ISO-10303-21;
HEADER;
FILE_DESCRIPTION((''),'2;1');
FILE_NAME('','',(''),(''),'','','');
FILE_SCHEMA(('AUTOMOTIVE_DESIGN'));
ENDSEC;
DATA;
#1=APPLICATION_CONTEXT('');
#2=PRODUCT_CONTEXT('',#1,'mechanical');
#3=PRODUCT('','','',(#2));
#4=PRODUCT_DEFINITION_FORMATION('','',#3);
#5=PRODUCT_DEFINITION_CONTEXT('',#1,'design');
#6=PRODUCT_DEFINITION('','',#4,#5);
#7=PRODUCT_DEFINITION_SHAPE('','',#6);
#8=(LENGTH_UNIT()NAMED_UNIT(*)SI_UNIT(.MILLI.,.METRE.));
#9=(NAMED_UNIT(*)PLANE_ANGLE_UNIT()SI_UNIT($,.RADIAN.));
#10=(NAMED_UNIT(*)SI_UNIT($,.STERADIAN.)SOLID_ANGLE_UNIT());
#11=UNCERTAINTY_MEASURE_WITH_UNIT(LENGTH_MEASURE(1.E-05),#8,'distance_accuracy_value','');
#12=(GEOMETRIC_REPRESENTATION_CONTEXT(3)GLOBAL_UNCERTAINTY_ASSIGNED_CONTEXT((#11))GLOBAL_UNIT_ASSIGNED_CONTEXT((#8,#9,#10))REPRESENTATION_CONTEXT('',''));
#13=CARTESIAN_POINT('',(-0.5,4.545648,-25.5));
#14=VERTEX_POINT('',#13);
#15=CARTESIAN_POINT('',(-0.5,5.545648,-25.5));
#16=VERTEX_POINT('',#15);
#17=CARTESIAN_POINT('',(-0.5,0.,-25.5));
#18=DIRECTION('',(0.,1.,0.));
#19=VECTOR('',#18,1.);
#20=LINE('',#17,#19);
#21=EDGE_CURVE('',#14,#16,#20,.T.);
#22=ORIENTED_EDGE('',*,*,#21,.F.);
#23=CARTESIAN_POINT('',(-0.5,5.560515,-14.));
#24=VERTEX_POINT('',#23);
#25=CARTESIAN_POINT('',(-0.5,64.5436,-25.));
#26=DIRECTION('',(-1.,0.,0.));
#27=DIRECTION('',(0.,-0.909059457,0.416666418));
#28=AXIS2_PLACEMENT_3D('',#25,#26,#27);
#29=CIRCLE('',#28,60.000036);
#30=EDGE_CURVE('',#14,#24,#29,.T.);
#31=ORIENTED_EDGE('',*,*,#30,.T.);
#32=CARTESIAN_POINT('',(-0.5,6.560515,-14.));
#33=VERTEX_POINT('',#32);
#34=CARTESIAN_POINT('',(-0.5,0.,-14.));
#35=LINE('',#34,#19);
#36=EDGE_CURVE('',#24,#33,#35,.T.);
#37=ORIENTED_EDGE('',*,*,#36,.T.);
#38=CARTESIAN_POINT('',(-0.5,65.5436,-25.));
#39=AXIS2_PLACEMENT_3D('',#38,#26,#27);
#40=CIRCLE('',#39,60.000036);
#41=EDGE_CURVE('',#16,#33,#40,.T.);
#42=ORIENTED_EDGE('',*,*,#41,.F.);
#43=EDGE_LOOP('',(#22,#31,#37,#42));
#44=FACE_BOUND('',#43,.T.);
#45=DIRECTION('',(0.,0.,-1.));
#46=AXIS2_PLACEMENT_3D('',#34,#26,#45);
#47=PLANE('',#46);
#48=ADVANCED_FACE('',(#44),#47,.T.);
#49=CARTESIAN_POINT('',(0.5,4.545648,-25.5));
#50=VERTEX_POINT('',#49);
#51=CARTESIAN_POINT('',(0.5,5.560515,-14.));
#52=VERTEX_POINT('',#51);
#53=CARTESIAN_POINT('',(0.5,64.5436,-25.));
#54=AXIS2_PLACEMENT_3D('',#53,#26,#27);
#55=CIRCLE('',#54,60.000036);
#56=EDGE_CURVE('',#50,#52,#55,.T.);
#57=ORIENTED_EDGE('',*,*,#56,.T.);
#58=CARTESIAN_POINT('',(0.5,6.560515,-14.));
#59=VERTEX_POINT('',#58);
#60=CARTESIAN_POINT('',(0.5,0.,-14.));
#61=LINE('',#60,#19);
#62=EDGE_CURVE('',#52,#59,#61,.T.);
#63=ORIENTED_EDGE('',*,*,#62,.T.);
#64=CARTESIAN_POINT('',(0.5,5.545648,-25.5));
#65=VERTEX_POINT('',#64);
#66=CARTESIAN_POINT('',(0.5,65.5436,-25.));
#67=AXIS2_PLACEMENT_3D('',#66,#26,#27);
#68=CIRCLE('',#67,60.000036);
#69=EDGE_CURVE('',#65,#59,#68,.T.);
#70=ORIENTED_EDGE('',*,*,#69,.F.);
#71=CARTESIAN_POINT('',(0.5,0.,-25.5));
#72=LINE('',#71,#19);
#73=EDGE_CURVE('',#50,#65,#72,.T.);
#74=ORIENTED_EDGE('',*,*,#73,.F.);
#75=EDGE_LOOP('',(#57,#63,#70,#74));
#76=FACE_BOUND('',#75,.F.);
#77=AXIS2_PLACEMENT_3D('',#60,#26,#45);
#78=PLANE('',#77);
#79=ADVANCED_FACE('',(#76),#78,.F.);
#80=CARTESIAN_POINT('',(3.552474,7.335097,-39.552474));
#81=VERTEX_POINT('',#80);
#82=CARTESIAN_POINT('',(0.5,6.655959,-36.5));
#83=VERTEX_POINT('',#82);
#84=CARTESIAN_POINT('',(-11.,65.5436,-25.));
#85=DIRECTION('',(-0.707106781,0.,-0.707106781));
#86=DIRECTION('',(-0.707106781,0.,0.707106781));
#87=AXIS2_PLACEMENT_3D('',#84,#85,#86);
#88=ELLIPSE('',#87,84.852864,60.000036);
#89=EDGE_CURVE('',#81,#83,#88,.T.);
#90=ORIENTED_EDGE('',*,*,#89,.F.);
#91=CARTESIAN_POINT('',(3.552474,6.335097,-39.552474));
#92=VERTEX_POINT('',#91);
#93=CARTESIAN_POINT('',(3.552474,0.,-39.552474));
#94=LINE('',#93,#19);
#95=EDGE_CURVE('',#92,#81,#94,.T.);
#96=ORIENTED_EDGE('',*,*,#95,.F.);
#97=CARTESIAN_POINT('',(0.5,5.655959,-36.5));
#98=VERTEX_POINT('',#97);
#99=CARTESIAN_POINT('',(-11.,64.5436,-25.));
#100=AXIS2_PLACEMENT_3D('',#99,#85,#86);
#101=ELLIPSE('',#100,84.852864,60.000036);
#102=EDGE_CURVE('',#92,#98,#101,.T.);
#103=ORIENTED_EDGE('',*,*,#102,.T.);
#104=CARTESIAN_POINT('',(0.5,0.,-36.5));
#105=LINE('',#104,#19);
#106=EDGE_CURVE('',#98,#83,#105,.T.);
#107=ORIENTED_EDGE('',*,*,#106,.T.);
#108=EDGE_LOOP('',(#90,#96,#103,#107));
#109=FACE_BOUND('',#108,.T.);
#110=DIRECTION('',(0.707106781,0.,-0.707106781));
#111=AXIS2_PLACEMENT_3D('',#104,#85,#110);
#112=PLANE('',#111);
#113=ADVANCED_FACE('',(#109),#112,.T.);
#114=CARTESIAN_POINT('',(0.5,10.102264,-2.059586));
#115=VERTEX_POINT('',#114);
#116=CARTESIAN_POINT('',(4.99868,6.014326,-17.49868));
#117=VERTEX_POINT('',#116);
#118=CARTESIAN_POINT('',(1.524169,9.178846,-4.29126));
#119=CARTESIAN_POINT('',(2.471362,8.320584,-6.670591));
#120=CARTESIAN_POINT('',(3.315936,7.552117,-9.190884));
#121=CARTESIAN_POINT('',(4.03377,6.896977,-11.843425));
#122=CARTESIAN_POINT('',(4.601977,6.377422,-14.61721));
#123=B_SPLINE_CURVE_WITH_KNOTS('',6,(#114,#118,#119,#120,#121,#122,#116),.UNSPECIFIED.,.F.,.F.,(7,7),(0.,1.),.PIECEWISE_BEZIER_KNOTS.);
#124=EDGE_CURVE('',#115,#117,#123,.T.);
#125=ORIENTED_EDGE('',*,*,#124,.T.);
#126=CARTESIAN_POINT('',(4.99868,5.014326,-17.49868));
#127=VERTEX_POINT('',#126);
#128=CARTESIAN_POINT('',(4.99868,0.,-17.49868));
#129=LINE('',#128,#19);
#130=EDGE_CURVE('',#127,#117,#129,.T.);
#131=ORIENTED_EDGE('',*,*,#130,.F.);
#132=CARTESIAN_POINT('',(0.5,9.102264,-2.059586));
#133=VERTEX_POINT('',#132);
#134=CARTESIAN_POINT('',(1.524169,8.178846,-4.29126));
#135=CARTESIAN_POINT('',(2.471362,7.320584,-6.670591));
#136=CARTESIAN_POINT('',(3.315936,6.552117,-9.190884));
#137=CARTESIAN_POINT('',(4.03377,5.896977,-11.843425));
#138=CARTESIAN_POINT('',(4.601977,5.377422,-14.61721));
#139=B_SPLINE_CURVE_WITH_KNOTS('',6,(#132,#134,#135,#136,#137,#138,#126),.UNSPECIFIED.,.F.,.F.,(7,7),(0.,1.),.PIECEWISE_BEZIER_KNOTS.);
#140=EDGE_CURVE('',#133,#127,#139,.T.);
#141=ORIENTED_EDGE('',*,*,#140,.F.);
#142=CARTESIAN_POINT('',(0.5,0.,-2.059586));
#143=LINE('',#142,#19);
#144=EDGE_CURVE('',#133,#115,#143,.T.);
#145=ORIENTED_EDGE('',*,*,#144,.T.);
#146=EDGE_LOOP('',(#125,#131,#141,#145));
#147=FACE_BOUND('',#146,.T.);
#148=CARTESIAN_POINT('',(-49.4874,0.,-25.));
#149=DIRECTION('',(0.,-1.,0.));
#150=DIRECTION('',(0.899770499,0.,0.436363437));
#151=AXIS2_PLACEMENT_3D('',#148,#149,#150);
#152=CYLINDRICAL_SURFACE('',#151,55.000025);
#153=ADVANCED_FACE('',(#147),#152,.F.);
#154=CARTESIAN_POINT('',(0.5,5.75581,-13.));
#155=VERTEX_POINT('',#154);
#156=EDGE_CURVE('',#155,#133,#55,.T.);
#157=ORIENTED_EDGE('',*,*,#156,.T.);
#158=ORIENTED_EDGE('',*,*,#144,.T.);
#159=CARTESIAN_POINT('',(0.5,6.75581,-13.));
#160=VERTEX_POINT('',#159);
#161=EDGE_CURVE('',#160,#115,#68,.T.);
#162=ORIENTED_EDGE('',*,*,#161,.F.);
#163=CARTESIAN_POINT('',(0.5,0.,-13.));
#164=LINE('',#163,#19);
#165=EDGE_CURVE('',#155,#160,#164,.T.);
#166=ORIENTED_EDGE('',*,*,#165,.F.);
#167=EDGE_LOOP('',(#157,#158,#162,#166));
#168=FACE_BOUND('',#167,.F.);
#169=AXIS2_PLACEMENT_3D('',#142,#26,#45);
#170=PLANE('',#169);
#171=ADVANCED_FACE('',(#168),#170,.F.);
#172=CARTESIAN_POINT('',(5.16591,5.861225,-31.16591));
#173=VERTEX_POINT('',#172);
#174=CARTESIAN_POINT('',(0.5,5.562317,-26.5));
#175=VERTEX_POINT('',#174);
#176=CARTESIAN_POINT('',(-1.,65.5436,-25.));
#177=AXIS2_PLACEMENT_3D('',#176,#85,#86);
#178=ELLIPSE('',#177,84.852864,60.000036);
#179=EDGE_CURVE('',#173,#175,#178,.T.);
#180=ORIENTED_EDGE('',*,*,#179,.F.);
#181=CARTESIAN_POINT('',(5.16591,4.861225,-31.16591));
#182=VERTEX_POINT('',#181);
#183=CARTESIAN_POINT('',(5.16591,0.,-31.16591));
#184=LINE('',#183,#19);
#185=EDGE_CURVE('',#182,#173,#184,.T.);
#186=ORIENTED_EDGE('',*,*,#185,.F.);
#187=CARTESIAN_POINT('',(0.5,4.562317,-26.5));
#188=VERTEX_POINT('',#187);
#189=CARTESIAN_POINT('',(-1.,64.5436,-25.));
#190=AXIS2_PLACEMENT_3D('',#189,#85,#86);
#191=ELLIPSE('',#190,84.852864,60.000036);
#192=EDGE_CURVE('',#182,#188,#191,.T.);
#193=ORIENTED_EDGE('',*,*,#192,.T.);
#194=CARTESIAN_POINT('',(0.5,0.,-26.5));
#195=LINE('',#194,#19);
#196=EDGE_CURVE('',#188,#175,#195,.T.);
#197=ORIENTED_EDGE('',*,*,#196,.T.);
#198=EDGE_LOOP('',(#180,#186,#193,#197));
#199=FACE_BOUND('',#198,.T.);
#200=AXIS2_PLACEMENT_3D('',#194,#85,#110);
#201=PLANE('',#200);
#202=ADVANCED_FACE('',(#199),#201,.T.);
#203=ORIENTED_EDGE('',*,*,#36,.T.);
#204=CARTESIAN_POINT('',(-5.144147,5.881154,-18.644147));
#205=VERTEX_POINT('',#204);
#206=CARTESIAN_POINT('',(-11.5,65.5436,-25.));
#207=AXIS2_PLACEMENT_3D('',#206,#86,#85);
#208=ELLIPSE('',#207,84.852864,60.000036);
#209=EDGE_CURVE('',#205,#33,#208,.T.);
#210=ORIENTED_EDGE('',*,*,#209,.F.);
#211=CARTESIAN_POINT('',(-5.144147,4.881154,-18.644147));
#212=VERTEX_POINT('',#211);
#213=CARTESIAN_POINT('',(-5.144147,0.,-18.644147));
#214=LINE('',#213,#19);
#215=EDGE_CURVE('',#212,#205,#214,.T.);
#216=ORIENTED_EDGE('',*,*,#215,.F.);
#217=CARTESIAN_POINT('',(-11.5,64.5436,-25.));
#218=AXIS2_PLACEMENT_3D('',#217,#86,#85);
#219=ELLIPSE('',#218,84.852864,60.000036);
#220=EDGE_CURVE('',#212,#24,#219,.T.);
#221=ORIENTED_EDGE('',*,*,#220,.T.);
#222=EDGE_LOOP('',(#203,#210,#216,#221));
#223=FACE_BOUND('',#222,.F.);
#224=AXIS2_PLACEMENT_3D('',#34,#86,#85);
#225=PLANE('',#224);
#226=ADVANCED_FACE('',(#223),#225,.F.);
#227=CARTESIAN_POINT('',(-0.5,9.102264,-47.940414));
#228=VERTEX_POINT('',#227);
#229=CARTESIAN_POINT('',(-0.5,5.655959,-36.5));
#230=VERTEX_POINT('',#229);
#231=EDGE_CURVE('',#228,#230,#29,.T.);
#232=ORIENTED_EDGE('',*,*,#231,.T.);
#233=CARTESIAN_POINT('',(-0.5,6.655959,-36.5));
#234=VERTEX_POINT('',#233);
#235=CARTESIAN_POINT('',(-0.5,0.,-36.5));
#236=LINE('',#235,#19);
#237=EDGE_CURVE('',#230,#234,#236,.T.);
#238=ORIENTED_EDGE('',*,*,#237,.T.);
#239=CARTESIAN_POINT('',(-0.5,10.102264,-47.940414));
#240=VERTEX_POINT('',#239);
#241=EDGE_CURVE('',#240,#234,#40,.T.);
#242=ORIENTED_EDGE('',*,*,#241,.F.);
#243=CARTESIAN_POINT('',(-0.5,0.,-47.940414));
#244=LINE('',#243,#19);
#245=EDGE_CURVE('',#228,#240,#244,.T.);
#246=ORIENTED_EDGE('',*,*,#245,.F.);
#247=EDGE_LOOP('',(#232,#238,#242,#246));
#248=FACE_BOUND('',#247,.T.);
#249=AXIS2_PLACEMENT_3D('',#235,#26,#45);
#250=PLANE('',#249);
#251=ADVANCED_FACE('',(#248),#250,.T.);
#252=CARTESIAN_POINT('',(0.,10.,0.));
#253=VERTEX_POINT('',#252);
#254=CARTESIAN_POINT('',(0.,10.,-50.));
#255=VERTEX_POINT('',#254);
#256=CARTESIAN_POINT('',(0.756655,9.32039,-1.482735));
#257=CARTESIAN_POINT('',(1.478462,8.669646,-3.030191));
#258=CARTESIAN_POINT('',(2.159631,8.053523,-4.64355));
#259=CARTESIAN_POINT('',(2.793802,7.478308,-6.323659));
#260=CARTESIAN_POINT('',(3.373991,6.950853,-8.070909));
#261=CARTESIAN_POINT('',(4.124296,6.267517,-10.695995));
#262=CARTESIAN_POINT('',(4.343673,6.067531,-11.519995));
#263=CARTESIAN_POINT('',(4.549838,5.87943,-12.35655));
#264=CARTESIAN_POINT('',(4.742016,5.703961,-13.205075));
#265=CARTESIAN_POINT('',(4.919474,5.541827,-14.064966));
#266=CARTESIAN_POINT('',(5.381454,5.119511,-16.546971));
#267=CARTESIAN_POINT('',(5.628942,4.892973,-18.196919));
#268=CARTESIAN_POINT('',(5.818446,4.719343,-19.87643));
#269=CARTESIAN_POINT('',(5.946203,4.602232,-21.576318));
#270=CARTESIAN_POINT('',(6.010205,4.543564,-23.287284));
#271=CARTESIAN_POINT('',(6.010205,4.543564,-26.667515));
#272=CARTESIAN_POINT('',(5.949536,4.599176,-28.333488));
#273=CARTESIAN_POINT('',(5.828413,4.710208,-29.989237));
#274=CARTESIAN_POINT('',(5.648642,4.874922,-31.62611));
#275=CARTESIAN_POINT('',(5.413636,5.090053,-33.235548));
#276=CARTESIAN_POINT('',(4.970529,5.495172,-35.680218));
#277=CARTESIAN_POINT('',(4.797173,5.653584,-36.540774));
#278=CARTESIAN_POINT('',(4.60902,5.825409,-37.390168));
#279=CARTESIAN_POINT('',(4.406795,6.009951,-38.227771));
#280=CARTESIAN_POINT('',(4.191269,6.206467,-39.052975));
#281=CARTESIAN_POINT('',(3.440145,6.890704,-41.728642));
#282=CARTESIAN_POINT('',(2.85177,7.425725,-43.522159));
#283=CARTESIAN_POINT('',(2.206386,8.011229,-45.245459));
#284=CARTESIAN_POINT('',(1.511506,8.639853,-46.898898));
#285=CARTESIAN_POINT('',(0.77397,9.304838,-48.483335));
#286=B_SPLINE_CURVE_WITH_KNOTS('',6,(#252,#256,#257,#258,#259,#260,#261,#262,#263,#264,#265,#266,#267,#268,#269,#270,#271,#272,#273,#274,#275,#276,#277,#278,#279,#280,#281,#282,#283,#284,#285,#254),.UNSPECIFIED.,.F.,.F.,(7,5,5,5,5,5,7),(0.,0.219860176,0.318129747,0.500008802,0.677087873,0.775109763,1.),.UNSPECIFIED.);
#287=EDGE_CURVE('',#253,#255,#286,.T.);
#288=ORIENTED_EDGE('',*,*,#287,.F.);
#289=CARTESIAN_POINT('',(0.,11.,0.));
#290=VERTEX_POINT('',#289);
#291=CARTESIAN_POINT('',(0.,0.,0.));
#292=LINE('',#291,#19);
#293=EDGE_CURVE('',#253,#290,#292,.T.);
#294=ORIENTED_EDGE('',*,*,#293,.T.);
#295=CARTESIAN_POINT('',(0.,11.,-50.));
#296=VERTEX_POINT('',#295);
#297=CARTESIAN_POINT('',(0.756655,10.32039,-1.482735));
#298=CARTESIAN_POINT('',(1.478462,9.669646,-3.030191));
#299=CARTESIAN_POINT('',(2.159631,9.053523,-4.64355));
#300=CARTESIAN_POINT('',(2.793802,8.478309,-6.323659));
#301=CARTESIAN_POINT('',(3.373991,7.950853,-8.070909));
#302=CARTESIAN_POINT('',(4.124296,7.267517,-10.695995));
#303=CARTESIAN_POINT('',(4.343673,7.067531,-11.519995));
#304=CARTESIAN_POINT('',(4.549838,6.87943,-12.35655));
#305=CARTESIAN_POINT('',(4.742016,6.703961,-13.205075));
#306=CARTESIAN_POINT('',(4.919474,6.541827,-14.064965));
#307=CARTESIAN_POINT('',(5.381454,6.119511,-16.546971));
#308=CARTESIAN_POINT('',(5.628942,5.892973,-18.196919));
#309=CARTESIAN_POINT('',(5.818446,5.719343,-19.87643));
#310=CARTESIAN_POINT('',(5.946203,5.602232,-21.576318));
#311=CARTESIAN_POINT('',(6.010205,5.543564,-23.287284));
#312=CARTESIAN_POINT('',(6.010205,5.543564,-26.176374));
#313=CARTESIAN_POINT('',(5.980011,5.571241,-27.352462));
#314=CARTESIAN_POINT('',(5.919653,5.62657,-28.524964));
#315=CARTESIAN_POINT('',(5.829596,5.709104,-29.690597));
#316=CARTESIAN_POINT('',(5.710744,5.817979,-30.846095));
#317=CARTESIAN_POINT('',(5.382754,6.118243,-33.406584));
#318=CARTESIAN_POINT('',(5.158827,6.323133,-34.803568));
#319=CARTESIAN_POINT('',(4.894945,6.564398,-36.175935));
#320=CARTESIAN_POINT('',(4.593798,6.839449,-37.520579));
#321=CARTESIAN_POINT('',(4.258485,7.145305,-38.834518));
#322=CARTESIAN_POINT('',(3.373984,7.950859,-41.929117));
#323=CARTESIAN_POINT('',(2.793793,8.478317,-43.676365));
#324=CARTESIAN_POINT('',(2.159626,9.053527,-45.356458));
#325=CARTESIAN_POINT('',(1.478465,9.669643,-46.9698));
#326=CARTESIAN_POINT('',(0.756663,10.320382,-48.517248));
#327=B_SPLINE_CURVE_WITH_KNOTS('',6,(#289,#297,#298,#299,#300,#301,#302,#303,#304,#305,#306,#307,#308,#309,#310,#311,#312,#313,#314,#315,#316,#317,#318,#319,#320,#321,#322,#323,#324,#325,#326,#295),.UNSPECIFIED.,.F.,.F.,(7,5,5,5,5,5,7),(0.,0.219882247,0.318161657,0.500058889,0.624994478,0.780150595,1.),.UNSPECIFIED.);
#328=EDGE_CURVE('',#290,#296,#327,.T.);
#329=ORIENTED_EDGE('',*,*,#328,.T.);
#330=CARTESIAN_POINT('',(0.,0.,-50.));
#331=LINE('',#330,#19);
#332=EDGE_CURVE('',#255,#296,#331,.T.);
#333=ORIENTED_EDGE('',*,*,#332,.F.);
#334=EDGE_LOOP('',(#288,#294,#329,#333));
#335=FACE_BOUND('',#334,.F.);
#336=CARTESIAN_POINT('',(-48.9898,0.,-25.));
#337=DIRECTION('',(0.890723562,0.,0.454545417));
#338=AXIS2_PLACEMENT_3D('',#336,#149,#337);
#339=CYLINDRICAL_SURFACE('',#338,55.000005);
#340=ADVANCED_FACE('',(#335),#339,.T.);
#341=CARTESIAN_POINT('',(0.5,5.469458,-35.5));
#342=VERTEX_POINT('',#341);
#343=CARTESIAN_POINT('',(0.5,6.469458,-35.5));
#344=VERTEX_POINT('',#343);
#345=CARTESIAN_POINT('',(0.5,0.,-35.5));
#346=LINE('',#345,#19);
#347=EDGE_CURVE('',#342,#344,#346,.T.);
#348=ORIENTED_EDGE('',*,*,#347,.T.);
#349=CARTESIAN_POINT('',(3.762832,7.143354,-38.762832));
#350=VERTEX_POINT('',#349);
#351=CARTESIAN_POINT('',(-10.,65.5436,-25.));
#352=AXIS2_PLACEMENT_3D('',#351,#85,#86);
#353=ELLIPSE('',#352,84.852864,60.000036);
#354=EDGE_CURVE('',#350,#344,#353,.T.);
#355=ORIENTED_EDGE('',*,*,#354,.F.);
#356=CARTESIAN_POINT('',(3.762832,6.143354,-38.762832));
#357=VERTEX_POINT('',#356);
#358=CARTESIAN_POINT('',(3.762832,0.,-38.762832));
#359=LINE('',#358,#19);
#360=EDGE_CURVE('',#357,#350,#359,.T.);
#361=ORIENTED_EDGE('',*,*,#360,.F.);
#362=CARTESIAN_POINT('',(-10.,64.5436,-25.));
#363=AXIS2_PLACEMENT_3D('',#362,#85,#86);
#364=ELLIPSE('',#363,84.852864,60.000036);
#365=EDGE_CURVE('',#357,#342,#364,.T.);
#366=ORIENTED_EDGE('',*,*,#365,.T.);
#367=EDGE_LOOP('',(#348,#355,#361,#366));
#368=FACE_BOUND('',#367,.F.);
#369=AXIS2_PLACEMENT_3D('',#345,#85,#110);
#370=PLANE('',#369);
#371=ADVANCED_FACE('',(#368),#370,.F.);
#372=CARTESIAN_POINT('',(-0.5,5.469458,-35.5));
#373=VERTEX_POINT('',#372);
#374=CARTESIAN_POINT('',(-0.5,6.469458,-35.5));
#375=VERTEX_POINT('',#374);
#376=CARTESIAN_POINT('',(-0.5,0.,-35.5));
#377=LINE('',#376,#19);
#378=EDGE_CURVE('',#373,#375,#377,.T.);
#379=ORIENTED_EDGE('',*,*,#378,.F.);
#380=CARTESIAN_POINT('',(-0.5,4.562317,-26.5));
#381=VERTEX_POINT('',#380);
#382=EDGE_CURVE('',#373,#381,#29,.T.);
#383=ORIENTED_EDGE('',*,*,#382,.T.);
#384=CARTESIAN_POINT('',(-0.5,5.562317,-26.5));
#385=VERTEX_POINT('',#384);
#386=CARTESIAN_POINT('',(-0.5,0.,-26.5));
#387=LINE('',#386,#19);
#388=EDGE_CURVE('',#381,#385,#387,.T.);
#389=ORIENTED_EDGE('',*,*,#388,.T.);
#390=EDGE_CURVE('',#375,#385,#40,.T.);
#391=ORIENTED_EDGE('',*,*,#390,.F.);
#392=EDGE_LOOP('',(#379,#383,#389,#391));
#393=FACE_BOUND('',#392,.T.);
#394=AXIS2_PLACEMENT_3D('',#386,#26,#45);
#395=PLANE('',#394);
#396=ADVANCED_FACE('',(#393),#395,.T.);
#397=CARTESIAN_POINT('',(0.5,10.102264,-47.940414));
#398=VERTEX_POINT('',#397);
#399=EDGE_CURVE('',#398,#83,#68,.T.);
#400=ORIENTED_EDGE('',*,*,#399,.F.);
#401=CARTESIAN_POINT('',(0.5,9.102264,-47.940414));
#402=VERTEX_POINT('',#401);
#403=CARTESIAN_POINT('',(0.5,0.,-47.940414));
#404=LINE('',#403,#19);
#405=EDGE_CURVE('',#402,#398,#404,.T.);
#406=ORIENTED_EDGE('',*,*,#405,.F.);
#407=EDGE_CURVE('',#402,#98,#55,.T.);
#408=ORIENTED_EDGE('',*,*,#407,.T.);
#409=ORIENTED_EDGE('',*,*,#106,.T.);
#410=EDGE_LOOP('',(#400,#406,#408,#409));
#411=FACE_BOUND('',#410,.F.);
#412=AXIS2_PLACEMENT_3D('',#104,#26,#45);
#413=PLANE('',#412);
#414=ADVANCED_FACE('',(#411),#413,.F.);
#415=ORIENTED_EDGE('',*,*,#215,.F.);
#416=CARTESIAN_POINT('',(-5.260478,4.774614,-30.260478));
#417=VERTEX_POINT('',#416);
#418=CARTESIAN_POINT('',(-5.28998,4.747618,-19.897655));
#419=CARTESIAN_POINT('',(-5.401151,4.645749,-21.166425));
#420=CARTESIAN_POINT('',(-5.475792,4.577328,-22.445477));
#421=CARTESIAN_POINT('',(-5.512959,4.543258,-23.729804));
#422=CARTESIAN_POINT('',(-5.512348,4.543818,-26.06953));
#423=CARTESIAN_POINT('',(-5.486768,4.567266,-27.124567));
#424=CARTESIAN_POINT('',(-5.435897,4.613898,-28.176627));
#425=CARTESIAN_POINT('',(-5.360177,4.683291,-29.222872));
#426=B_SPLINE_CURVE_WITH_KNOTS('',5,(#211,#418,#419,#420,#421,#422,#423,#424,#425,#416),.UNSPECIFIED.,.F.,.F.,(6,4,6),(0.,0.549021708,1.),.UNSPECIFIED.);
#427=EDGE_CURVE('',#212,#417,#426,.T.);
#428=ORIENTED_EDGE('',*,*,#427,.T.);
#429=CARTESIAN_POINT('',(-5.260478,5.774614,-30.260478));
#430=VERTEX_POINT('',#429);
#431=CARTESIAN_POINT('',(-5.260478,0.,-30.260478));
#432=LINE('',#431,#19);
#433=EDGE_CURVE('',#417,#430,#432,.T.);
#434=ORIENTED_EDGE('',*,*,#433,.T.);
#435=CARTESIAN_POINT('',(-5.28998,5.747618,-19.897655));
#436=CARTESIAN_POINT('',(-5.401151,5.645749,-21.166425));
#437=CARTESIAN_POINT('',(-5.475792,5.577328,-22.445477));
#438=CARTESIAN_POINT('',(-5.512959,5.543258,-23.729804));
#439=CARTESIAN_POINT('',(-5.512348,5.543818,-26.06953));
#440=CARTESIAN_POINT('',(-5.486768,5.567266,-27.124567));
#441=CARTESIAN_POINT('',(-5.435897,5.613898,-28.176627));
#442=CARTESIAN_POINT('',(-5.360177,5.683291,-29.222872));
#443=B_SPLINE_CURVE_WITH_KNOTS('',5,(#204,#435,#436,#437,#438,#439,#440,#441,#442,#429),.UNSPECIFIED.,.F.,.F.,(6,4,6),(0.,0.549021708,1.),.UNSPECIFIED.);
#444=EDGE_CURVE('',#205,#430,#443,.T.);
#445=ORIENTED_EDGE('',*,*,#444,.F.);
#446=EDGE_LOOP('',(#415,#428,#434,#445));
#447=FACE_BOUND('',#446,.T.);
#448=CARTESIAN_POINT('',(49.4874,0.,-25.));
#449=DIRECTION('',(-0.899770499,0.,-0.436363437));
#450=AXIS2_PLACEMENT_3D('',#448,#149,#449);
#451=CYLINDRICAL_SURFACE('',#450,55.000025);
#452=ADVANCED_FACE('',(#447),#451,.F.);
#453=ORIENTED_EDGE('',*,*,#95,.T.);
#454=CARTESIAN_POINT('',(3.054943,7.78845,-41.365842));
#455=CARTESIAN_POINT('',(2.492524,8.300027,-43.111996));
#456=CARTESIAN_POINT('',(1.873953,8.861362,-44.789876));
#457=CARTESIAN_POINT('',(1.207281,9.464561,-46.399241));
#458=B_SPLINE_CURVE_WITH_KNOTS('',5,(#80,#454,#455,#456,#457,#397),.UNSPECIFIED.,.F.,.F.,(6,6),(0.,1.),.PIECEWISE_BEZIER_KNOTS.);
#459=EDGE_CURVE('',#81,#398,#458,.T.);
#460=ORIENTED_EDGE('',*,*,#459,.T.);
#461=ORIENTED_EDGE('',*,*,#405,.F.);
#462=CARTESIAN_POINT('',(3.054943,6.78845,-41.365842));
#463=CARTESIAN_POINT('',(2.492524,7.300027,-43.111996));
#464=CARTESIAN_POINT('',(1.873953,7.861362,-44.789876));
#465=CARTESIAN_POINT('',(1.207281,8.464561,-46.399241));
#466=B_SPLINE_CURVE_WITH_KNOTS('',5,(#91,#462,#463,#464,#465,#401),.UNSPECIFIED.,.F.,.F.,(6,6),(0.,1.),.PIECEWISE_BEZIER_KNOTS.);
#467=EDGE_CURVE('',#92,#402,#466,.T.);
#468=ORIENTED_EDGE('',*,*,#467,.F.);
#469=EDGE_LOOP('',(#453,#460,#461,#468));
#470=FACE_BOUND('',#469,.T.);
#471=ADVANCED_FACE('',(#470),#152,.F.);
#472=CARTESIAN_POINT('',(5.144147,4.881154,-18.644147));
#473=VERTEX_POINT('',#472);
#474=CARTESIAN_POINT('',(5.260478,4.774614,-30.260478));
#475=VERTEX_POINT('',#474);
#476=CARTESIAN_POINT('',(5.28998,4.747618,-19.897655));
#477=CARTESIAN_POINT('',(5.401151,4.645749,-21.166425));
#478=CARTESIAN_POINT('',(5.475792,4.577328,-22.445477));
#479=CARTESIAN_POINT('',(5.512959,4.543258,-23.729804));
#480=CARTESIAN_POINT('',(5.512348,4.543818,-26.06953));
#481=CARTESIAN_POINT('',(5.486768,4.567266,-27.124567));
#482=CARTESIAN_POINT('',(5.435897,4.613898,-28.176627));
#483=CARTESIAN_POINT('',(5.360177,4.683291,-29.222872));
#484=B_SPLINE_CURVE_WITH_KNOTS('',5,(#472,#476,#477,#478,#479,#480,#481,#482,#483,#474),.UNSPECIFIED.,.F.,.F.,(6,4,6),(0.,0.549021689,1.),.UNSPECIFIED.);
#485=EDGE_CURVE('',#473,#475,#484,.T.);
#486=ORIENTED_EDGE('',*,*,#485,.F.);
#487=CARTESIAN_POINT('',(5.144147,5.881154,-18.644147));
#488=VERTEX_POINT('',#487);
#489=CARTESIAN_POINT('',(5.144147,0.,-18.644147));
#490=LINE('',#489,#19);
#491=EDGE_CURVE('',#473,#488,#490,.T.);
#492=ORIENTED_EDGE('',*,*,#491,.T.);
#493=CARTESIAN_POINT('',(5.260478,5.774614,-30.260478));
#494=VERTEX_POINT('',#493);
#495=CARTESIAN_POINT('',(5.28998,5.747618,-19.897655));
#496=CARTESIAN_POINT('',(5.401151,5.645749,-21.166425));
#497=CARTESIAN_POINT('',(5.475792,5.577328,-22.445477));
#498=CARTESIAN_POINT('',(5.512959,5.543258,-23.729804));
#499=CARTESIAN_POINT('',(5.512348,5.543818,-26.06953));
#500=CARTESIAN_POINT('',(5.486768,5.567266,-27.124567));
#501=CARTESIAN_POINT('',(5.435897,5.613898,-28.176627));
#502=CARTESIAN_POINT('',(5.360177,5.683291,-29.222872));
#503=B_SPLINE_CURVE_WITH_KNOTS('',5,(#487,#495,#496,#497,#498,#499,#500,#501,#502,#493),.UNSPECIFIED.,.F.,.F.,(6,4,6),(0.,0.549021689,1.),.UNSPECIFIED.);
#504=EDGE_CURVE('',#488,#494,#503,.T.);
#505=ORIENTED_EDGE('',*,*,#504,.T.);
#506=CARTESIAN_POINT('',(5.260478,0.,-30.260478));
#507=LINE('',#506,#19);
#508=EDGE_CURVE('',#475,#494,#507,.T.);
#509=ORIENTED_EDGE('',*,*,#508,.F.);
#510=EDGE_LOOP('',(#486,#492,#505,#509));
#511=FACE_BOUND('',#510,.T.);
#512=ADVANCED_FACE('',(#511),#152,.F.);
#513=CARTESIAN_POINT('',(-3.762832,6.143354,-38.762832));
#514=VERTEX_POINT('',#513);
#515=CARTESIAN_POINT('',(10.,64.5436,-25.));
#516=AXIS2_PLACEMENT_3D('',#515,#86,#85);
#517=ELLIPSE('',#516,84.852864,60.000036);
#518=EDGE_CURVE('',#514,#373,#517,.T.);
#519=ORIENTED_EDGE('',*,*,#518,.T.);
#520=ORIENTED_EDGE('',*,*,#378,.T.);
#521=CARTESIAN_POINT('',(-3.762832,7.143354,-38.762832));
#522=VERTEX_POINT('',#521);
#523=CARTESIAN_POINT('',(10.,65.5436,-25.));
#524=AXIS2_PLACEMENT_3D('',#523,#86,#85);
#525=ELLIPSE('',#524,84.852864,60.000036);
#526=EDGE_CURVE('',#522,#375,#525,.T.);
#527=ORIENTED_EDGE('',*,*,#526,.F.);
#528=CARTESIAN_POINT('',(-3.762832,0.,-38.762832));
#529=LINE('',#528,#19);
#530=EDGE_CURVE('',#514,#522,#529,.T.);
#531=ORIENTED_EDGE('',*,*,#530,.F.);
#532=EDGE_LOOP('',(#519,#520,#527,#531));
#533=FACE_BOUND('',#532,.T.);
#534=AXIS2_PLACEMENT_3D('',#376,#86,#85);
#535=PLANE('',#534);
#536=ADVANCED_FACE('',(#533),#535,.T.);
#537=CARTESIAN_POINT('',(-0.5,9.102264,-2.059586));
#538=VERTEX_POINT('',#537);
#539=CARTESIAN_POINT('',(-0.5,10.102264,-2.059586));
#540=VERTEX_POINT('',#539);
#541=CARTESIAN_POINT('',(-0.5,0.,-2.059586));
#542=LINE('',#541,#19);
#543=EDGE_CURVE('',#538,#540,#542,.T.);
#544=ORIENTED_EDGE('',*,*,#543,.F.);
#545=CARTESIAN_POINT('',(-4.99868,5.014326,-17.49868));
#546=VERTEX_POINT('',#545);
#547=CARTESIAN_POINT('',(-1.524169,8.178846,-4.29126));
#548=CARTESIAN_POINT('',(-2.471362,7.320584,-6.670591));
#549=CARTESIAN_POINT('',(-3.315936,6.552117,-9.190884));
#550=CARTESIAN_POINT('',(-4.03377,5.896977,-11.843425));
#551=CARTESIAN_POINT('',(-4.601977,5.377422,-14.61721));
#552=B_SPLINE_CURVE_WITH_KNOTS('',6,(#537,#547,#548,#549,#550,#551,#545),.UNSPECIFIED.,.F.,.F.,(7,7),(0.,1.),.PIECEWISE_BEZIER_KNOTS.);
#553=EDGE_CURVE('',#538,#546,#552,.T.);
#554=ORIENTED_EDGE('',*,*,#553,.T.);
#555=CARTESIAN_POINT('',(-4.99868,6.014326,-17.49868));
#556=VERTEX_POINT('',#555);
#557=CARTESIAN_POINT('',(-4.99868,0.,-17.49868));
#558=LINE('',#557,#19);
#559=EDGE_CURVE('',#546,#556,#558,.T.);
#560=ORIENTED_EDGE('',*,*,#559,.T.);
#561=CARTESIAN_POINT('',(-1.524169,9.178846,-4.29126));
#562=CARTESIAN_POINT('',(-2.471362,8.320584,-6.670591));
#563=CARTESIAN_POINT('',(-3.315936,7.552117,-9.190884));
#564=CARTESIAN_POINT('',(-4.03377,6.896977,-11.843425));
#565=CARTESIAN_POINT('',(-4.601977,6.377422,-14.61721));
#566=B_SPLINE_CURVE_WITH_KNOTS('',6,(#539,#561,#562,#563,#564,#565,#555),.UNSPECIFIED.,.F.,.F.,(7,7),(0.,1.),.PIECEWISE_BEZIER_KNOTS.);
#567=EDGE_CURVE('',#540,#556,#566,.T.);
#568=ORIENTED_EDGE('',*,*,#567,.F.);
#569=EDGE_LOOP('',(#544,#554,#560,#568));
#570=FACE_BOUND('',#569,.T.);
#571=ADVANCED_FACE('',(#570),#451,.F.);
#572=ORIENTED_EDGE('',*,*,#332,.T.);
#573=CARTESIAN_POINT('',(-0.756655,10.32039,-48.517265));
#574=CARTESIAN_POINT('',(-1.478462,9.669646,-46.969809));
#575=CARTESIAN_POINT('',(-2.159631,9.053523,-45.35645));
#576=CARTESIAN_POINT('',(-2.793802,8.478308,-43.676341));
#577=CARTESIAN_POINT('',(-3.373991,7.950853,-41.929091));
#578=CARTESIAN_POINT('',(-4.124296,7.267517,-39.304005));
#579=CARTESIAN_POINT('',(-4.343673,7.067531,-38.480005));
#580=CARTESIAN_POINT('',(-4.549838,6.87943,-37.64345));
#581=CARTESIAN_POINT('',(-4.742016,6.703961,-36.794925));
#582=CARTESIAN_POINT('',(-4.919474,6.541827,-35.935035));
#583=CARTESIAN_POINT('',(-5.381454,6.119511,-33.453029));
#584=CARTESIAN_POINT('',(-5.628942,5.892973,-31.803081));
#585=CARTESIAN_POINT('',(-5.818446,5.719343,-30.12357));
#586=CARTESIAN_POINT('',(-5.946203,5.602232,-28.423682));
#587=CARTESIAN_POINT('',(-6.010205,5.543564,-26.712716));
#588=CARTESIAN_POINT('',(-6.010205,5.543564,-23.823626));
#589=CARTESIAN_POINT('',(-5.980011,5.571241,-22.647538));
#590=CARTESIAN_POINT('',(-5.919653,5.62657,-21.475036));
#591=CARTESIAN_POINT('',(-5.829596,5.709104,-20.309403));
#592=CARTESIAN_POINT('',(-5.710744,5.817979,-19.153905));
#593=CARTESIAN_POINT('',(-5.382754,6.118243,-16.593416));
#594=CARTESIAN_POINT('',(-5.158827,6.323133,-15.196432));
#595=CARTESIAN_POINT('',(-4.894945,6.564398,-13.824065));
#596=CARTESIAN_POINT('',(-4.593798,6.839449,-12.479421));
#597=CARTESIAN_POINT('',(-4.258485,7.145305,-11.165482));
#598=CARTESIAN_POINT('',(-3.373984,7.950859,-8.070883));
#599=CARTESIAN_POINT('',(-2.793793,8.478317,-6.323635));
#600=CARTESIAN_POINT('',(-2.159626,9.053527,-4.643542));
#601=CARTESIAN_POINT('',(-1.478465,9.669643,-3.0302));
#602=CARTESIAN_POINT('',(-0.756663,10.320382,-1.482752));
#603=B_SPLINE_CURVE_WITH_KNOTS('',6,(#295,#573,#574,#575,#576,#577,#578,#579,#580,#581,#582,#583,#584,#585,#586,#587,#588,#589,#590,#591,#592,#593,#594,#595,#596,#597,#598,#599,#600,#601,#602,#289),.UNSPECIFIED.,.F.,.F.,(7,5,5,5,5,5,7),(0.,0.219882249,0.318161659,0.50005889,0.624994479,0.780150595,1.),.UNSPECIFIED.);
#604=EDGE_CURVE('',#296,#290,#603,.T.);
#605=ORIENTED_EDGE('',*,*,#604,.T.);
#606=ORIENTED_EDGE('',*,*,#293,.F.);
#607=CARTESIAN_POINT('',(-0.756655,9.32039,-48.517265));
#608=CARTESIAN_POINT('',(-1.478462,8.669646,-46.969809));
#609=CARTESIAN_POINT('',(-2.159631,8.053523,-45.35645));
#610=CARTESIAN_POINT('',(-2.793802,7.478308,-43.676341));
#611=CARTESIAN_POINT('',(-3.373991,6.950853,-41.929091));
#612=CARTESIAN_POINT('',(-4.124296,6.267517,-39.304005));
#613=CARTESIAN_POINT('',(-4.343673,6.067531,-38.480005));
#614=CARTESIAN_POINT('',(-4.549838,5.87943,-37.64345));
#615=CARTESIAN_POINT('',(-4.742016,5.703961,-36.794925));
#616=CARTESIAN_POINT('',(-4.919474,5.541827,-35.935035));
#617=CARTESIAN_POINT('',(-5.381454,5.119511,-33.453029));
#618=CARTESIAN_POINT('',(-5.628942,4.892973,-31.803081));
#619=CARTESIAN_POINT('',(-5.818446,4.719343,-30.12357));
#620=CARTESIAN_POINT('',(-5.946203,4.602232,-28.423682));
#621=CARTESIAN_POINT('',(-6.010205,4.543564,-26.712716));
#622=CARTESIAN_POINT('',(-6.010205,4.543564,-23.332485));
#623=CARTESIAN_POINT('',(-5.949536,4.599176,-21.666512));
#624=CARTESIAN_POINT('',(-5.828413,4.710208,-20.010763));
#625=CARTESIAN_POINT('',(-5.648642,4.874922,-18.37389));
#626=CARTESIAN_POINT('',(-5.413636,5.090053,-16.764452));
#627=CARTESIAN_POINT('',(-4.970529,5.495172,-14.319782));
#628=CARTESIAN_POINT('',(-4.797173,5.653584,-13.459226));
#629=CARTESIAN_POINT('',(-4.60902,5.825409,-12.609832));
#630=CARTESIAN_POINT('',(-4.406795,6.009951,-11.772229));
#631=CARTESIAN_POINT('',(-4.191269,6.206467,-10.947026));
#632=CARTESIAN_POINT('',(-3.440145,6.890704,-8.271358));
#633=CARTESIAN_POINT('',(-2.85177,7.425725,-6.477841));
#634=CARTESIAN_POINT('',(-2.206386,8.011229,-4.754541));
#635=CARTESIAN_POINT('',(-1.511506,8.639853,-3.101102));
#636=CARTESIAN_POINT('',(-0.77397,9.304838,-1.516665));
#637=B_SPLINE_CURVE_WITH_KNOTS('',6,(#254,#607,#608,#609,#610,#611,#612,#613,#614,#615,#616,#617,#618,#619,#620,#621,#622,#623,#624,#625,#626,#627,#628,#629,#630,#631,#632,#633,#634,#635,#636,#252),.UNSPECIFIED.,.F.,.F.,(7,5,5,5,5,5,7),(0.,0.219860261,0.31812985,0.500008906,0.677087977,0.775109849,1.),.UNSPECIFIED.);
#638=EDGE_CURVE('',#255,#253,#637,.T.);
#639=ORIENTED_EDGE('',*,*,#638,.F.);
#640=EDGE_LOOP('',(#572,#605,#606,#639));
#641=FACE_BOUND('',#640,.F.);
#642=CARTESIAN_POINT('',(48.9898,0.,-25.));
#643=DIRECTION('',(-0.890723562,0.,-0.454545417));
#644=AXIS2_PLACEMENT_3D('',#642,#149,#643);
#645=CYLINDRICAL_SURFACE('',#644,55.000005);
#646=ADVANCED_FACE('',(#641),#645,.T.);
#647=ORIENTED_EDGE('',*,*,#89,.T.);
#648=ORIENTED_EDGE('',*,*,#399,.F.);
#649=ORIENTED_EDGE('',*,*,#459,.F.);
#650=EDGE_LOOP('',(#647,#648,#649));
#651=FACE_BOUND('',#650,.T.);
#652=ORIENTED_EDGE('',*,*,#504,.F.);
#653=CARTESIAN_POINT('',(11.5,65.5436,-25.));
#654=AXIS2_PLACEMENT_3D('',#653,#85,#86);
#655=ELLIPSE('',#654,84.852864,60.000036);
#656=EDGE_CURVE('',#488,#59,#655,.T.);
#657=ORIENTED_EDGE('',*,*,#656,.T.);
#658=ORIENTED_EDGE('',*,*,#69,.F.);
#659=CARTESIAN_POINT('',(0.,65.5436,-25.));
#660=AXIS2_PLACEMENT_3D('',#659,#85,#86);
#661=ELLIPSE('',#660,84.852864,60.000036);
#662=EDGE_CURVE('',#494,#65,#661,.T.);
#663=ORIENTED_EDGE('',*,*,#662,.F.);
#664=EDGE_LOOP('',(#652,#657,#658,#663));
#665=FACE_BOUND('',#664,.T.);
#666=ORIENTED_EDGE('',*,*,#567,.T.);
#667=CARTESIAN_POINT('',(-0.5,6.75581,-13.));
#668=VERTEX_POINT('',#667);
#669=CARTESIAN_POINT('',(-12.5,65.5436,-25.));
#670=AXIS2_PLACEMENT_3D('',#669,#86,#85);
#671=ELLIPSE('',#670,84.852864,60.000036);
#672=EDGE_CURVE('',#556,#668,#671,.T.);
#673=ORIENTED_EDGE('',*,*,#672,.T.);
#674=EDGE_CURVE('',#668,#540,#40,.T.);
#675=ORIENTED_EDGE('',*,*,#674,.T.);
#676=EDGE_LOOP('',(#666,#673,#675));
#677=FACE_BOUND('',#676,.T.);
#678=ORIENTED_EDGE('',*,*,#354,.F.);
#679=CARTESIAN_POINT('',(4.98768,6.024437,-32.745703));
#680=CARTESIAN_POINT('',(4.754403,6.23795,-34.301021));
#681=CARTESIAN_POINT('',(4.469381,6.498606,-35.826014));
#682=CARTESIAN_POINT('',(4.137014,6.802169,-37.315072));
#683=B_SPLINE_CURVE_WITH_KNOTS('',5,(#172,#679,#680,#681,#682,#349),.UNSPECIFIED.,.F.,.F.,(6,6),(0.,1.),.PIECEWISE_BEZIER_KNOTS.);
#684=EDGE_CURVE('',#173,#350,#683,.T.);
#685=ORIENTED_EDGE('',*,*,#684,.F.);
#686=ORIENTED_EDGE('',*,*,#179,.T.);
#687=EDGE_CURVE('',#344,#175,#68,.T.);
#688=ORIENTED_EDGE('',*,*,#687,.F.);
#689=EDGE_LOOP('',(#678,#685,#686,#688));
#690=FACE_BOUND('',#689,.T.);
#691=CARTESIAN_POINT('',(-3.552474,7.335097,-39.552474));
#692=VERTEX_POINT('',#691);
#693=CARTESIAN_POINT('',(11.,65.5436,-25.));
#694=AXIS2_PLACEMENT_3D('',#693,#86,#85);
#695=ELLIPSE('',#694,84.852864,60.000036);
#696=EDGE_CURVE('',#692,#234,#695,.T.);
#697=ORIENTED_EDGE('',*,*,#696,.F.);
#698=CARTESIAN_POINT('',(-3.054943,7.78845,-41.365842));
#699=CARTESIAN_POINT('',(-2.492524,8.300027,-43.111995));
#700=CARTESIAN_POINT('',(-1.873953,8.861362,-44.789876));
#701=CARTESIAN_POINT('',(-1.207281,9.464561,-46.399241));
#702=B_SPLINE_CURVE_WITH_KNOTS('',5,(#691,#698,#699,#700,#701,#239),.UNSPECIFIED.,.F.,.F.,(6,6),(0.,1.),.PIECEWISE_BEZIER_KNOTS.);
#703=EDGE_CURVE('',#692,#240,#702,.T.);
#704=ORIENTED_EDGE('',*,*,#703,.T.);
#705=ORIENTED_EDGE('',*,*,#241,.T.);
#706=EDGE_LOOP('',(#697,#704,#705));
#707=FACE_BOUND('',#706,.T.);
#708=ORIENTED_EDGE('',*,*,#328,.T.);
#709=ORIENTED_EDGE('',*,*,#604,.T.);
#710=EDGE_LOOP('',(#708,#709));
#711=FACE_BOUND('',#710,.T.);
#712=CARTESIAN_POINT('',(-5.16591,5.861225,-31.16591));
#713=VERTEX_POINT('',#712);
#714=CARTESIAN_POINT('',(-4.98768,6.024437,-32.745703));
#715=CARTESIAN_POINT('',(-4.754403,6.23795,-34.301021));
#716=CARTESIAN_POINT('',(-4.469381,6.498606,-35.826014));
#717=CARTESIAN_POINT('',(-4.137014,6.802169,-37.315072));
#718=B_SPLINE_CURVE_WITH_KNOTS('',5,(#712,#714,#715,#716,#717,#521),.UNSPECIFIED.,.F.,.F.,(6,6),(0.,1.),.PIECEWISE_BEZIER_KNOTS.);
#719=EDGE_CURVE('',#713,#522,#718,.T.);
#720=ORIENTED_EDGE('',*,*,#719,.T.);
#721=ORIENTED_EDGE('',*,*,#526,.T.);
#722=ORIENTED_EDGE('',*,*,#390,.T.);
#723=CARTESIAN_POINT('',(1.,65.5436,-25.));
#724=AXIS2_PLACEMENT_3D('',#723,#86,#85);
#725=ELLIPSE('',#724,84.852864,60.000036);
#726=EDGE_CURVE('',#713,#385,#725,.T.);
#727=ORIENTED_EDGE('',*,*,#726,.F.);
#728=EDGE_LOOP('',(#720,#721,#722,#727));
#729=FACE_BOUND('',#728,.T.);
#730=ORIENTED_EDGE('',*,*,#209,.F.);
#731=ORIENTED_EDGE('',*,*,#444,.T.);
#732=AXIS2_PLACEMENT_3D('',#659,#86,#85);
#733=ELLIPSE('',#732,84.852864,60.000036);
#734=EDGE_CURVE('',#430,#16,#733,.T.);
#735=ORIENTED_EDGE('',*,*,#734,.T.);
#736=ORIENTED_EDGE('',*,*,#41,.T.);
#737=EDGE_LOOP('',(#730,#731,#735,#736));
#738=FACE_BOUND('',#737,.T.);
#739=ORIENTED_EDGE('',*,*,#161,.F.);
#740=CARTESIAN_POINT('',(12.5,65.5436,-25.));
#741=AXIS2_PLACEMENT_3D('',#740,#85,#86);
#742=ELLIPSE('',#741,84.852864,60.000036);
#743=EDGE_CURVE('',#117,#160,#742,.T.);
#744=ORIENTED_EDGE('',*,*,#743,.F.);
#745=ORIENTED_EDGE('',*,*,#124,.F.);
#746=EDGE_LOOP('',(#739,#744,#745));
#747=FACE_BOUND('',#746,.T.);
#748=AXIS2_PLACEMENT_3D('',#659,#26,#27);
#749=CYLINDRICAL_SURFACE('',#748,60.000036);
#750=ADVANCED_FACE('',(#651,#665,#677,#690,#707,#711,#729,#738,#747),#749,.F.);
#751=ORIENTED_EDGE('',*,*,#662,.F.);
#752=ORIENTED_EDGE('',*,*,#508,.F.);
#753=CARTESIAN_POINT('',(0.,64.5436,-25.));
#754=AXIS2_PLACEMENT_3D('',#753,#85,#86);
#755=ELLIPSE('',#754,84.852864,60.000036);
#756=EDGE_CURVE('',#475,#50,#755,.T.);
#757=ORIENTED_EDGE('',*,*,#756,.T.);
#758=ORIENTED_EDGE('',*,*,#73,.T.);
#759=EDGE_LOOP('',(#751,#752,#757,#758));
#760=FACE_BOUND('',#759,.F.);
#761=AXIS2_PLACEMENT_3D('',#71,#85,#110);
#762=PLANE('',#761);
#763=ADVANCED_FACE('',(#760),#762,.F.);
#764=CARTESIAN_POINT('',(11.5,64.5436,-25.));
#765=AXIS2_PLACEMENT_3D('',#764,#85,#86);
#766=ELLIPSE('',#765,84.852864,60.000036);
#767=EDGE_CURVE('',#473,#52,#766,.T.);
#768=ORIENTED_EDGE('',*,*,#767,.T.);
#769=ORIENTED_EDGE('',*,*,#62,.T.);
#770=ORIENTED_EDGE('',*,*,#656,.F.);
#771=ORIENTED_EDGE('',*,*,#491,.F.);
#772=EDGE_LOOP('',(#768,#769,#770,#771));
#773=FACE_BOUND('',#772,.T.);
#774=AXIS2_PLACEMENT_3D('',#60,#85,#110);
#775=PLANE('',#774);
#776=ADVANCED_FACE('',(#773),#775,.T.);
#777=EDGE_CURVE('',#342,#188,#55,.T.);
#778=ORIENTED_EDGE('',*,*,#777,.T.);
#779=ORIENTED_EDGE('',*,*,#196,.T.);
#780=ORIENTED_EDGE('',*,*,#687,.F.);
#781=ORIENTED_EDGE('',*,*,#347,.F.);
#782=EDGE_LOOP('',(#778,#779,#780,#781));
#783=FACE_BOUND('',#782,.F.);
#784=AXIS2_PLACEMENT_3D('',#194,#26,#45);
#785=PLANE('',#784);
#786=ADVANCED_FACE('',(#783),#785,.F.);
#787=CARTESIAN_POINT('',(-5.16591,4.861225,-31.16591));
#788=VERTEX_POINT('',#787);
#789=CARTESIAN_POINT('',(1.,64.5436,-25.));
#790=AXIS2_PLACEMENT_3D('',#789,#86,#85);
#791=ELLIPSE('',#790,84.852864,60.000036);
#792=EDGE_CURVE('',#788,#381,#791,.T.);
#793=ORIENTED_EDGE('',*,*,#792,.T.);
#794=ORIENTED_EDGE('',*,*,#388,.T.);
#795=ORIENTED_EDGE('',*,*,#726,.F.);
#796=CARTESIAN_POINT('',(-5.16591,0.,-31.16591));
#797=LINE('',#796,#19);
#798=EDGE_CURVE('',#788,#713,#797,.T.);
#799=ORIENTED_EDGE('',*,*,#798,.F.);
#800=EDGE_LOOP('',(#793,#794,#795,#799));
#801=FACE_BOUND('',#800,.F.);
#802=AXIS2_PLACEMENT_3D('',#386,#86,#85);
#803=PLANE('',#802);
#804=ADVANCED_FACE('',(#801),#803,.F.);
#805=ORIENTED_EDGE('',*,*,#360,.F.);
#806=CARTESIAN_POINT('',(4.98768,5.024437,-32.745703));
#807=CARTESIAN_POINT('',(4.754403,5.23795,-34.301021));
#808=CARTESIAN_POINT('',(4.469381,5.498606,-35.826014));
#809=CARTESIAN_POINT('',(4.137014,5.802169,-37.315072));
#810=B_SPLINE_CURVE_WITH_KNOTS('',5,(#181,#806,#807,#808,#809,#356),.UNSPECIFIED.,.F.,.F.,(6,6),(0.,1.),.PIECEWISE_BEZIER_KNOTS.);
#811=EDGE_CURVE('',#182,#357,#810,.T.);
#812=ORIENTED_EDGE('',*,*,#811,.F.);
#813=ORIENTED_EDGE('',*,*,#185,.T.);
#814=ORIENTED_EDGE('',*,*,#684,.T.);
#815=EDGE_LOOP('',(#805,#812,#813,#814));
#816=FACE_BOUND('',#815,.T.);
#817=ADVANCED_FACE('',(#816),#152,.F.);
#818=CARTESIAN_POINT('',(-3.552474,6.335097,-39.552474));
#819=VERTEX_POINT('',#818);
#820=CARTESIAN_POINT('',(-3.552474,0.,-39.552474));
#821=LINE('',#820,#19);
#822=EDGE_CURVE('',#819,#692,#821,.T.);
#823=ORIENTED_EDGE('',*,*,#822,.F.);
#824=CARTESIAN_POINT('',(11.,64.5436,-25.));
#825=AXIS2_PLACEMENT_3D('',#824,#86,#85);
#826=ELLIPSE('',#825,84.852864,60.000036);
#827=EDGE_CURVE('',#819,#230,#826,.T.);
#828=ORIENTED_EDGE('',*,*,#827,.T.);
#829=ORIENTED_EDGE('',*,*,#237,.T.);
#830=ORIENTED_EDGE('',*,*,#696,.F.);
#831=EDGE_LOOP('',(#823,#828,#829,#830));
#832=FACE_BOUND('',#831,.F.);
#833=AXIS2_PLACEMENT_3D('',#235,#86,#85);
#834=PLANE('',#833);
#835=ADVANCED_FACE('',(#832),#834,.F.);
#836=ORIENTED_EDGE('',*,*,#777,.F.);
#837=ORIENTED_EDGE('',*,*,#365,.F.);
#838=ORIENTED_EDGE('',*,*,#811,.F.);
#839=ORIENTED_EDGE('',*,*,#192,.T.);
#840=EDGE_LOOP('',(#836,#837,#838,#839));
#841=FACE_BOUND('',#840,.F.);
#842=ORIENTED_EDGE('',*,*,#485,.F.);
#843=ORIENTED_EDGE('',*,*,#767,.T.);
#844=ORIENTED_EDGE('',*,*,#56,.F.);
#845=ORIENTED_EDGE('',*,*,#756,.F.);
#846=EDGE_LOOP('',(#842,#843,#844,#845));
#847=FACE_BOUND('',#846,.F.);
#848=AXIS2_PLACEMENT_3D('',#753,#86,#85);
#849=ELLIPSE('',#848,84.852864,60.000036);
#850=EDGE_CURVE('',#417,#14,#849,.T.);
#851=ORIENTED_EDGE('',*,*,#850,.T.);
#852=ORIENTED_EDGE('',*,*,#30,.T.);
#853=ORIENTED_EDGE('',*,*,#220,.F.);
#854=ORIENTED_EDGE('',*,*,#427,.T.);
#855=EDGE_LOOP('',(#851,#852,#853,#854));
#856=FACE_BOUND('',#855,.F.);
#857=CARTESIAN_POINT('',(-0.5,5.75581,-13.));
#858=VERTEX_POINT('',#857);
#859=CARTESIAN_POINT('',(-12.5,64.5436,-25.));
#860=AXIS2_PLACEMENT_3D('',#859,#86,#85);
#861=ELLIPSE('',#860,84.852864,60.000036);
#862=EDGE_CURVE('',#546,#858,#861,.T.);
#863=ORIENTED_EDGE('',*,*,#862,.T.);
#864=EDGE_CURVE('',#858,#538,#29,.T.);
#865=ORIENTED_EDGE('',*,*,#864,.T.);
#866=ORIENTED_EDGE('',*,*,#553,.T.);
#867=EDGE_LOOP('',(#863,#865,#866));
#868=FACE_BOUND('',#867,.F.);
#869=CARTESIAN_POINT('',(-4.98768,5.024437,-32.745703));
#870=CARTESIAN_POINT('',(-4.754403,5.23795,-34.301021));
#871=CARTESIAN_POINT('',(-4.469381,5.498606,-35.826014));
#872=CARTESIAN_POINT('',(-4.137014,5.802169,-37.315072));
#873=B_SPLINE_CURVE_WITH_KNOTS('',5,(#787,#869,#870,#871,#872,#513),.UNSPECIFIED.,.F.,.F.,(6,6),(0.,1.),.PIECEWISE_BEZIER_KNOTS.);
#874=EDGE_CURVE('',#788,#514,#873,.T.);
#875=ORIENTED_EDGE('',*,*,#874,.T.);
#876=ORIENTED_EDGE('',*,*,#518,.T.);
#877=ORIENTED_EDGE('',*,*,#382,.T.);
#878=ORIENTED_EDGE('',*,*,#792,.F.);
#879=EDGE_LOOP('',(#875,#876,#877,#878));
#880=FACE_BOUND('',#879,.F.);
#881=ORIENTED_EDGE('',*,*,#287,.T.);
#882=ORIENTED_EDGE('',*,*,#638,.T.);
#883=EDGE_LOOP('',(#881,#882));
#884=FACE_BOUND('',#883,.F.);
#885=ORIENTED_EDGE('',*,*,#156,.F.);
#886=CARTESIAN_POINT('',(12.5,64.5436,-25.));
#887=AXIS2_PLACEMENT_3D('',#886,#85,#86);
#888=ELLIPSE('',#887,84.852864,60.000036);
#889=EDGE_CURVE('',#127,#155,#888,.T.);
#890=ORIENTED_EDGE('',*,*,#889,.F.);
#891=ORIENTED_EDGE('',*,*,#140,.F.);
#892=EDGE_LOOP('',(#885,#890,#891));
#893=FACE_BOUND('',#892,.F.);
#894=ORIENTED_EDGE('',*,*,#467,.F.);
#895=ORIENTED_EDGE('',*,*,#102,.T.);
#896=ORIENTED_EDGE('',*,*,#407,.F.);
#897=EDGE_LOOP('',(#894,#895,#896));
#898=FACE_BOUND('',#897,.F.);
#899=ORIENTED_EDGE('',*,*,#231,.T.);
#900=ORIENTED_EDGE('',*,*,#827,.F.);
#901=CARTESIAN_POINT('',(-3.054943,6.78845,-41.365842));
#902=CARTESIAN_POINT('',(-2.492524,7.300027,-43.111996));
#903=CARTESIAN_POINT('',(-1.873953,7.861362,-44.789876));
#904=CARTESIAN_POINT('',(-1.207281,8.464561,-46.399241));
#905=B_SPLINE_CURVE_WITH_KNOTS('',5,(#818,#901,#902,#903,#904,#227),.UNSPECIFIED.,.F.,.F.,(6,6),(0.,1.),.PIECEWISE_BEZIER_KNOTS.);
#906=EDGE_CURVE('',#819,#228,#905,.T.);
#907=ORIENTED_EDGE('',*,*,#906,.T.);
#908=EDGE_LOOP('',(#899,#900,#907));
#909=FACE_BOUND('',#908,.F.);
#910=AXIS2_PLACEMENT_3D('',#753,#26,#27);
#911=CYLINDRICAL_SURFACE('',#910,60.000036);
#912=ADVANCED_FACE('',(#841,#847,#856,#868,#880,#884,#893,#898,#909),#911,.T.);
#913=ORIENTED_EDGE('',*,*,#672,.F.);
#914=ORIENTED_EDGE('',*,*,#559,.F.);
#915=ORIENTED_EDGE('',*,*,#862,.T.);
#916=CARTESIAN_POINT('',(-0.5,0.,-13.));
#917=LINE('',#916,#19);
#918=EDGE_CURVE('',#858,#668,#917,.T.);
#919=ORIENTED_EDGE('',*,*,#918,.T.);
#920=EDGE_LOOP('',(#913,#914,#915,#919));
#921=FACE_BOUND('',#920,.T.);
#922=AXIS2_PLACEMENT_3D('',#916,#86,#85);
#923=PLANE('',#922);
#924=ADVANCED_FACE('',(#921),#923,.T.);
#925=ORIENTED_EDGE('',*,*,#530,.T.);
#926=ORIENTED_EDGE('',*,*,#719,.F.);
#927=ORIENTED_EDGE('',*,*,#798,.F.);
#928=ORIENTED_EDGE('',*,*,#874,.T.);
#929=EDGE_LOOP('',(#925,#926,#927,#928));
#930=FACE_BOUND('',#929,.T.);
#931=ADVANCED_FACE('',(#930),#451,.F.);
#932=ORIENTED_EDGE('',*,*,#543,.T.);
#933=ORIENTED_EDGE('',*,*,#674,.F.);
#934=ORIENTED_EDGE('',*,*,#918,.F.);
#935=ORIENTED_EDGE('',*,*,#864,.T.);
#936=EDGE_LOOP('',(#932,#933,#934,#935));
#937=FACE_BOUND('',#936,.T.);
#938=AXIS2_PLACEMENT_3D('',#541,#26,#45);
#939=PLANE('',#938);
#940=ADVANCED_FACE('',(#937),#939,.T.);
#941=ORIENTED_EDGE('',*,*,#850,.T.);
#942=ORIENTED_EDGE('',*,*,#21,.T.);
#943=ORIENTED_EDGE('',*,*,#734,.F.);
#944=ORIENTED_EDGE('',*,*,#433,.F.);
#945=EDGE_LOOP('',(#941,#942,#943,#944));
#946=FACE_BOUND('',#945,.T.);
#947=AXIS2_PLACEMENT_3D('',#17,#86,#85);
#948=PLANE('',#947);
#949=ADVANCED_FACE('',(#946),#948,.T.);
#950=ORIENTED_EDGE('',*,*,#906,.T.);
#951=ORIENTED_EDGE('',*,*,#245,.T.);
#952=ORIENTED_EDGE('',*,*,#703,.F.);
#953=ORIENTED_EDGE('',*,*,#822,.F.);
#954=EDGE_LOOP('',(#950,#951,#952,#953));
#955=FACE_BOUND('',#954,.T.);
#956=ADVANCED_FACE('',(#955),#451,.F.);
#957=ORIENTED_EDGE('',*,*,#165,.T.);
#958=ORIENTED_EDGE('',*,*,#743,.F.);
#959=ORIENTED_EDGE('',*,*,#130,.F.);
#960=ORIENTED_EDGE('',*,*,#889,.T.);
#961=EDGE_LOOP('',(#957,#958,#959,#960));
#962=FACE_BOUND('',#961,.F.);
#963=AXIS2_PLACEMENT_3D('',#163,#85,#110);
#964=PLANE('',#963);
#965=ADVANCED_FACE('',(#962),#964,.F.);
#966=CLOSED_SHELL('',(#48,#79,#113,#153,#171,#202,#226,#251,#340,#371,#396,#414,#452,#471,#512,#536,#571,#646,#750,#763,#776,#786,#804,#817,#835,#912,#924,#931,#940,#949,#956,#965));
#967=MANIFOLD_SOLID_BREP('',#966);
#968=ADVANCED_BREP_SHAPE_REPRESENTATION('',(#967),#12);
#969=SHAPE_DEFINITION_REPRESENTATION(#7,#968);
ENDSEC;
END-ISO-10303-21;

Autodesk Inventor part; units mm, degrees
ref_plane "YZ Plane" through (0, 0, 0) normal (1, 0, 0) x (0, 1, 0)
ref_plane "XZ Plane" through (0, 0, 0) normal (0, 1, 0) x (-1, 0, 0)
ref_plane "XY Plane" through (0, 0, 0) normal (0, 0, 1) x (1, 0, 0)
sketch "Sketch1" plane through (0, 0, 0) normal (0, 1, 0) x (-1, 0, 0)
  arc A0 (0, -50) -> (0, 0) centre (-48.9898, -25) ccw
  arc A1 (0, -49) -> (0, -1) centre (-49.4874, -25) ccw
  line L0 (0, 0) -> (0, -50)
  line L1 (0, -12.5) -> (5.5721, -18.0721)
  line L2 (0, -12.5) -> (7.8802, -12.5) construction
  line L3 (0, -13.5) -> (5.704, -19.204)
  line L4 (0, -25) -> (5.7127, -30.7127)
  line L5 (0, -25) -> (8.079, -25) construction
  line L6 (0, -26) -> (5.6114, -31.6114)
  line L7 (0, -35) -> (4.157, -39.157)
  line L8 (0, -35) -> (5.8789, -35) construction
  line L9 (0, -36) -> (3.9417, -39.9417)
  arc A2 (0, 0) -> (0, -50) centre (48.9898, -25) ccw
  arc A3 (0, -1) -> (0, -49) centre (49.4874, -25) ccw
  line L10 (0, -12.5) -> (-5.5721, -18.0721)
  line L11 (0, -13.5) -> (-5.704, -19.204)
  line L12 (0, -25) -> (-5.7127, -30.7127)
  line L13 (0, -26) -> (-5.6114, -31.6114)
  line L14 (0, -35) -> (-4.157, -39.157)
  line L15 (0, -36) -> (-3.9417, -39.9417)
  line L16 (0.5, 0) -> (0.5, -50.0047)
  line L17 (-0.5, 0) -> (-0.5, -50.0047)
  point P0 (5.1659, -31.1659)
  point P1 (3.7628, -38.7628)
  point P2 (0.5, -35.5)
  point P3 (0.5, -26.5)
  point P4 (-3.7628, -38.7628)
  point P5 (-5.1659, -31.1659)
  point P6 (-0.5, -26.5)
  point P7 (-0.5, -35.5)
  point P8 (-5.2605, -30.2605)
  point P9 (-5.1441, -18.6441)
  point P10 (-0.5, -14)
  point P11 (-0.5, -25.5)
  point P12 (-4.9987, -17.4987)
  point P13 (-0.5, -2.0596)
  point P14 (-0.5, -13)
  point P15 (-0.5, -36.5)
  point P16 (-0.5, -47.9404)
  point P17 (-3.5525, -39.5525)
  point P18 (4.9987, -17.4987)
  point P19 (0.5, -13)
  point P20 (0.5, -2.0596)
  point P21 (3.5525, -39.5525)
  point P22 (0.5, -47.9404)
  point P23 (0.5, -36.5)
  point P24 (5.1441, -18.6441)
  point P25 (5.2605, -30.2605)
  point P26 (0.5, -25.5)
  point P27 (0.5, -14)
  dimension "d0" = 50
  dimension "d1" = 55
  dimension "d2" = 48
  dimension "d3" = 55
  dimension "d4" = 45
  dimension "d5" = 45
  dimension "d6" = 45
extrude "Extrusion1" add sketch "Sketch1" along normal blind 20 contours L9 A1 L7 A0 | A0 L16 A1 L9 | L7 A1 L6 A0 | A0 L0 A1 L16 | L9 L16 L7 A1 | L6 A1 L4 A0 | A2 L17 A3 L0 | A1 L0 L9 L16 | L9 L0 L7 L16 | L4 A1 L3 A0 | L6 L16 L4 A1 | L7 L0 L6 L16 | A3 L17 L15 L0 | A2 L15 A3 L17 | L15 L17 L14 L0 | L3 A1 L1 A0 | L6 L0 L4 L16 | L14 L17 L13 L0 | A2 L14 A3 L15 | L15 A3 L14 L17 | L1 A1 L16 A0 | L3 L16 L1 A1 | L4 L0 L3 L16 | L13 L17 L12 L0 | A2 L13 A3 L14 | L16 A1 L0 A0 | L3 L0 L1 L16 | L12 L17 L11 L0 | L13 A3 L12 L17 | A2 L12 A3 L13 | L0 A3 L17 A2 | L16 L1 L0 A1 | L11 L17 L10 L0 | A2 L11 A3 L12 | L0 L10 L17 A3 | L17 A3 L10 A2 | L11 A3 L10 L17 | A2 L10 A3 L11
sketch "Sketch2" plane through (0, 0, 0) normal (0, 0, 1) x (1, 0, 0)
  point P0 (0, 0)
sketch "Sketch3" plane through (0, 0, 0) normal (1, 0, 0) x (0, 1, 0)
  line L0 (0, 0) -> (20, 0) projected
  line L1 (0, -50) -> (20, -50) projected
  arc A0 (10, 0) -> (10, -50) centre (64.5436, -25) ccw
  arc A1 (11, 0) -> (11, -50) centre (65.5436, -25) ccw
  line L2 (11, 0) -> (11, -50) construction
  line L3 (11, 0) -> (61, 0) construction
  line L4 (11, 0) -> (20, 0)
  line L5 (20, -50) -> (20, 0) projected
  line L6 (20, 0) -> (20, -50)
  line L7 (20, -50) -> (11, -50)
  line L8 (10, 0) -> (0, 0)
  line L9 (0, 0) -> (0, -50)
  line L10 (10, -50) -> (0, -50)
  point P0 (11, 0)
  point P1 (11, -50)
  dimension "d9" = 60
  dimension "d10" = 50
  dimension "d11" = 90
  dimension "d12" = 60
extrude "Extrusion2" cut sketch "Sketch3" along normal mid plane 20 contours L0 A0 L1 L9 | L0 L5 L1 A1
